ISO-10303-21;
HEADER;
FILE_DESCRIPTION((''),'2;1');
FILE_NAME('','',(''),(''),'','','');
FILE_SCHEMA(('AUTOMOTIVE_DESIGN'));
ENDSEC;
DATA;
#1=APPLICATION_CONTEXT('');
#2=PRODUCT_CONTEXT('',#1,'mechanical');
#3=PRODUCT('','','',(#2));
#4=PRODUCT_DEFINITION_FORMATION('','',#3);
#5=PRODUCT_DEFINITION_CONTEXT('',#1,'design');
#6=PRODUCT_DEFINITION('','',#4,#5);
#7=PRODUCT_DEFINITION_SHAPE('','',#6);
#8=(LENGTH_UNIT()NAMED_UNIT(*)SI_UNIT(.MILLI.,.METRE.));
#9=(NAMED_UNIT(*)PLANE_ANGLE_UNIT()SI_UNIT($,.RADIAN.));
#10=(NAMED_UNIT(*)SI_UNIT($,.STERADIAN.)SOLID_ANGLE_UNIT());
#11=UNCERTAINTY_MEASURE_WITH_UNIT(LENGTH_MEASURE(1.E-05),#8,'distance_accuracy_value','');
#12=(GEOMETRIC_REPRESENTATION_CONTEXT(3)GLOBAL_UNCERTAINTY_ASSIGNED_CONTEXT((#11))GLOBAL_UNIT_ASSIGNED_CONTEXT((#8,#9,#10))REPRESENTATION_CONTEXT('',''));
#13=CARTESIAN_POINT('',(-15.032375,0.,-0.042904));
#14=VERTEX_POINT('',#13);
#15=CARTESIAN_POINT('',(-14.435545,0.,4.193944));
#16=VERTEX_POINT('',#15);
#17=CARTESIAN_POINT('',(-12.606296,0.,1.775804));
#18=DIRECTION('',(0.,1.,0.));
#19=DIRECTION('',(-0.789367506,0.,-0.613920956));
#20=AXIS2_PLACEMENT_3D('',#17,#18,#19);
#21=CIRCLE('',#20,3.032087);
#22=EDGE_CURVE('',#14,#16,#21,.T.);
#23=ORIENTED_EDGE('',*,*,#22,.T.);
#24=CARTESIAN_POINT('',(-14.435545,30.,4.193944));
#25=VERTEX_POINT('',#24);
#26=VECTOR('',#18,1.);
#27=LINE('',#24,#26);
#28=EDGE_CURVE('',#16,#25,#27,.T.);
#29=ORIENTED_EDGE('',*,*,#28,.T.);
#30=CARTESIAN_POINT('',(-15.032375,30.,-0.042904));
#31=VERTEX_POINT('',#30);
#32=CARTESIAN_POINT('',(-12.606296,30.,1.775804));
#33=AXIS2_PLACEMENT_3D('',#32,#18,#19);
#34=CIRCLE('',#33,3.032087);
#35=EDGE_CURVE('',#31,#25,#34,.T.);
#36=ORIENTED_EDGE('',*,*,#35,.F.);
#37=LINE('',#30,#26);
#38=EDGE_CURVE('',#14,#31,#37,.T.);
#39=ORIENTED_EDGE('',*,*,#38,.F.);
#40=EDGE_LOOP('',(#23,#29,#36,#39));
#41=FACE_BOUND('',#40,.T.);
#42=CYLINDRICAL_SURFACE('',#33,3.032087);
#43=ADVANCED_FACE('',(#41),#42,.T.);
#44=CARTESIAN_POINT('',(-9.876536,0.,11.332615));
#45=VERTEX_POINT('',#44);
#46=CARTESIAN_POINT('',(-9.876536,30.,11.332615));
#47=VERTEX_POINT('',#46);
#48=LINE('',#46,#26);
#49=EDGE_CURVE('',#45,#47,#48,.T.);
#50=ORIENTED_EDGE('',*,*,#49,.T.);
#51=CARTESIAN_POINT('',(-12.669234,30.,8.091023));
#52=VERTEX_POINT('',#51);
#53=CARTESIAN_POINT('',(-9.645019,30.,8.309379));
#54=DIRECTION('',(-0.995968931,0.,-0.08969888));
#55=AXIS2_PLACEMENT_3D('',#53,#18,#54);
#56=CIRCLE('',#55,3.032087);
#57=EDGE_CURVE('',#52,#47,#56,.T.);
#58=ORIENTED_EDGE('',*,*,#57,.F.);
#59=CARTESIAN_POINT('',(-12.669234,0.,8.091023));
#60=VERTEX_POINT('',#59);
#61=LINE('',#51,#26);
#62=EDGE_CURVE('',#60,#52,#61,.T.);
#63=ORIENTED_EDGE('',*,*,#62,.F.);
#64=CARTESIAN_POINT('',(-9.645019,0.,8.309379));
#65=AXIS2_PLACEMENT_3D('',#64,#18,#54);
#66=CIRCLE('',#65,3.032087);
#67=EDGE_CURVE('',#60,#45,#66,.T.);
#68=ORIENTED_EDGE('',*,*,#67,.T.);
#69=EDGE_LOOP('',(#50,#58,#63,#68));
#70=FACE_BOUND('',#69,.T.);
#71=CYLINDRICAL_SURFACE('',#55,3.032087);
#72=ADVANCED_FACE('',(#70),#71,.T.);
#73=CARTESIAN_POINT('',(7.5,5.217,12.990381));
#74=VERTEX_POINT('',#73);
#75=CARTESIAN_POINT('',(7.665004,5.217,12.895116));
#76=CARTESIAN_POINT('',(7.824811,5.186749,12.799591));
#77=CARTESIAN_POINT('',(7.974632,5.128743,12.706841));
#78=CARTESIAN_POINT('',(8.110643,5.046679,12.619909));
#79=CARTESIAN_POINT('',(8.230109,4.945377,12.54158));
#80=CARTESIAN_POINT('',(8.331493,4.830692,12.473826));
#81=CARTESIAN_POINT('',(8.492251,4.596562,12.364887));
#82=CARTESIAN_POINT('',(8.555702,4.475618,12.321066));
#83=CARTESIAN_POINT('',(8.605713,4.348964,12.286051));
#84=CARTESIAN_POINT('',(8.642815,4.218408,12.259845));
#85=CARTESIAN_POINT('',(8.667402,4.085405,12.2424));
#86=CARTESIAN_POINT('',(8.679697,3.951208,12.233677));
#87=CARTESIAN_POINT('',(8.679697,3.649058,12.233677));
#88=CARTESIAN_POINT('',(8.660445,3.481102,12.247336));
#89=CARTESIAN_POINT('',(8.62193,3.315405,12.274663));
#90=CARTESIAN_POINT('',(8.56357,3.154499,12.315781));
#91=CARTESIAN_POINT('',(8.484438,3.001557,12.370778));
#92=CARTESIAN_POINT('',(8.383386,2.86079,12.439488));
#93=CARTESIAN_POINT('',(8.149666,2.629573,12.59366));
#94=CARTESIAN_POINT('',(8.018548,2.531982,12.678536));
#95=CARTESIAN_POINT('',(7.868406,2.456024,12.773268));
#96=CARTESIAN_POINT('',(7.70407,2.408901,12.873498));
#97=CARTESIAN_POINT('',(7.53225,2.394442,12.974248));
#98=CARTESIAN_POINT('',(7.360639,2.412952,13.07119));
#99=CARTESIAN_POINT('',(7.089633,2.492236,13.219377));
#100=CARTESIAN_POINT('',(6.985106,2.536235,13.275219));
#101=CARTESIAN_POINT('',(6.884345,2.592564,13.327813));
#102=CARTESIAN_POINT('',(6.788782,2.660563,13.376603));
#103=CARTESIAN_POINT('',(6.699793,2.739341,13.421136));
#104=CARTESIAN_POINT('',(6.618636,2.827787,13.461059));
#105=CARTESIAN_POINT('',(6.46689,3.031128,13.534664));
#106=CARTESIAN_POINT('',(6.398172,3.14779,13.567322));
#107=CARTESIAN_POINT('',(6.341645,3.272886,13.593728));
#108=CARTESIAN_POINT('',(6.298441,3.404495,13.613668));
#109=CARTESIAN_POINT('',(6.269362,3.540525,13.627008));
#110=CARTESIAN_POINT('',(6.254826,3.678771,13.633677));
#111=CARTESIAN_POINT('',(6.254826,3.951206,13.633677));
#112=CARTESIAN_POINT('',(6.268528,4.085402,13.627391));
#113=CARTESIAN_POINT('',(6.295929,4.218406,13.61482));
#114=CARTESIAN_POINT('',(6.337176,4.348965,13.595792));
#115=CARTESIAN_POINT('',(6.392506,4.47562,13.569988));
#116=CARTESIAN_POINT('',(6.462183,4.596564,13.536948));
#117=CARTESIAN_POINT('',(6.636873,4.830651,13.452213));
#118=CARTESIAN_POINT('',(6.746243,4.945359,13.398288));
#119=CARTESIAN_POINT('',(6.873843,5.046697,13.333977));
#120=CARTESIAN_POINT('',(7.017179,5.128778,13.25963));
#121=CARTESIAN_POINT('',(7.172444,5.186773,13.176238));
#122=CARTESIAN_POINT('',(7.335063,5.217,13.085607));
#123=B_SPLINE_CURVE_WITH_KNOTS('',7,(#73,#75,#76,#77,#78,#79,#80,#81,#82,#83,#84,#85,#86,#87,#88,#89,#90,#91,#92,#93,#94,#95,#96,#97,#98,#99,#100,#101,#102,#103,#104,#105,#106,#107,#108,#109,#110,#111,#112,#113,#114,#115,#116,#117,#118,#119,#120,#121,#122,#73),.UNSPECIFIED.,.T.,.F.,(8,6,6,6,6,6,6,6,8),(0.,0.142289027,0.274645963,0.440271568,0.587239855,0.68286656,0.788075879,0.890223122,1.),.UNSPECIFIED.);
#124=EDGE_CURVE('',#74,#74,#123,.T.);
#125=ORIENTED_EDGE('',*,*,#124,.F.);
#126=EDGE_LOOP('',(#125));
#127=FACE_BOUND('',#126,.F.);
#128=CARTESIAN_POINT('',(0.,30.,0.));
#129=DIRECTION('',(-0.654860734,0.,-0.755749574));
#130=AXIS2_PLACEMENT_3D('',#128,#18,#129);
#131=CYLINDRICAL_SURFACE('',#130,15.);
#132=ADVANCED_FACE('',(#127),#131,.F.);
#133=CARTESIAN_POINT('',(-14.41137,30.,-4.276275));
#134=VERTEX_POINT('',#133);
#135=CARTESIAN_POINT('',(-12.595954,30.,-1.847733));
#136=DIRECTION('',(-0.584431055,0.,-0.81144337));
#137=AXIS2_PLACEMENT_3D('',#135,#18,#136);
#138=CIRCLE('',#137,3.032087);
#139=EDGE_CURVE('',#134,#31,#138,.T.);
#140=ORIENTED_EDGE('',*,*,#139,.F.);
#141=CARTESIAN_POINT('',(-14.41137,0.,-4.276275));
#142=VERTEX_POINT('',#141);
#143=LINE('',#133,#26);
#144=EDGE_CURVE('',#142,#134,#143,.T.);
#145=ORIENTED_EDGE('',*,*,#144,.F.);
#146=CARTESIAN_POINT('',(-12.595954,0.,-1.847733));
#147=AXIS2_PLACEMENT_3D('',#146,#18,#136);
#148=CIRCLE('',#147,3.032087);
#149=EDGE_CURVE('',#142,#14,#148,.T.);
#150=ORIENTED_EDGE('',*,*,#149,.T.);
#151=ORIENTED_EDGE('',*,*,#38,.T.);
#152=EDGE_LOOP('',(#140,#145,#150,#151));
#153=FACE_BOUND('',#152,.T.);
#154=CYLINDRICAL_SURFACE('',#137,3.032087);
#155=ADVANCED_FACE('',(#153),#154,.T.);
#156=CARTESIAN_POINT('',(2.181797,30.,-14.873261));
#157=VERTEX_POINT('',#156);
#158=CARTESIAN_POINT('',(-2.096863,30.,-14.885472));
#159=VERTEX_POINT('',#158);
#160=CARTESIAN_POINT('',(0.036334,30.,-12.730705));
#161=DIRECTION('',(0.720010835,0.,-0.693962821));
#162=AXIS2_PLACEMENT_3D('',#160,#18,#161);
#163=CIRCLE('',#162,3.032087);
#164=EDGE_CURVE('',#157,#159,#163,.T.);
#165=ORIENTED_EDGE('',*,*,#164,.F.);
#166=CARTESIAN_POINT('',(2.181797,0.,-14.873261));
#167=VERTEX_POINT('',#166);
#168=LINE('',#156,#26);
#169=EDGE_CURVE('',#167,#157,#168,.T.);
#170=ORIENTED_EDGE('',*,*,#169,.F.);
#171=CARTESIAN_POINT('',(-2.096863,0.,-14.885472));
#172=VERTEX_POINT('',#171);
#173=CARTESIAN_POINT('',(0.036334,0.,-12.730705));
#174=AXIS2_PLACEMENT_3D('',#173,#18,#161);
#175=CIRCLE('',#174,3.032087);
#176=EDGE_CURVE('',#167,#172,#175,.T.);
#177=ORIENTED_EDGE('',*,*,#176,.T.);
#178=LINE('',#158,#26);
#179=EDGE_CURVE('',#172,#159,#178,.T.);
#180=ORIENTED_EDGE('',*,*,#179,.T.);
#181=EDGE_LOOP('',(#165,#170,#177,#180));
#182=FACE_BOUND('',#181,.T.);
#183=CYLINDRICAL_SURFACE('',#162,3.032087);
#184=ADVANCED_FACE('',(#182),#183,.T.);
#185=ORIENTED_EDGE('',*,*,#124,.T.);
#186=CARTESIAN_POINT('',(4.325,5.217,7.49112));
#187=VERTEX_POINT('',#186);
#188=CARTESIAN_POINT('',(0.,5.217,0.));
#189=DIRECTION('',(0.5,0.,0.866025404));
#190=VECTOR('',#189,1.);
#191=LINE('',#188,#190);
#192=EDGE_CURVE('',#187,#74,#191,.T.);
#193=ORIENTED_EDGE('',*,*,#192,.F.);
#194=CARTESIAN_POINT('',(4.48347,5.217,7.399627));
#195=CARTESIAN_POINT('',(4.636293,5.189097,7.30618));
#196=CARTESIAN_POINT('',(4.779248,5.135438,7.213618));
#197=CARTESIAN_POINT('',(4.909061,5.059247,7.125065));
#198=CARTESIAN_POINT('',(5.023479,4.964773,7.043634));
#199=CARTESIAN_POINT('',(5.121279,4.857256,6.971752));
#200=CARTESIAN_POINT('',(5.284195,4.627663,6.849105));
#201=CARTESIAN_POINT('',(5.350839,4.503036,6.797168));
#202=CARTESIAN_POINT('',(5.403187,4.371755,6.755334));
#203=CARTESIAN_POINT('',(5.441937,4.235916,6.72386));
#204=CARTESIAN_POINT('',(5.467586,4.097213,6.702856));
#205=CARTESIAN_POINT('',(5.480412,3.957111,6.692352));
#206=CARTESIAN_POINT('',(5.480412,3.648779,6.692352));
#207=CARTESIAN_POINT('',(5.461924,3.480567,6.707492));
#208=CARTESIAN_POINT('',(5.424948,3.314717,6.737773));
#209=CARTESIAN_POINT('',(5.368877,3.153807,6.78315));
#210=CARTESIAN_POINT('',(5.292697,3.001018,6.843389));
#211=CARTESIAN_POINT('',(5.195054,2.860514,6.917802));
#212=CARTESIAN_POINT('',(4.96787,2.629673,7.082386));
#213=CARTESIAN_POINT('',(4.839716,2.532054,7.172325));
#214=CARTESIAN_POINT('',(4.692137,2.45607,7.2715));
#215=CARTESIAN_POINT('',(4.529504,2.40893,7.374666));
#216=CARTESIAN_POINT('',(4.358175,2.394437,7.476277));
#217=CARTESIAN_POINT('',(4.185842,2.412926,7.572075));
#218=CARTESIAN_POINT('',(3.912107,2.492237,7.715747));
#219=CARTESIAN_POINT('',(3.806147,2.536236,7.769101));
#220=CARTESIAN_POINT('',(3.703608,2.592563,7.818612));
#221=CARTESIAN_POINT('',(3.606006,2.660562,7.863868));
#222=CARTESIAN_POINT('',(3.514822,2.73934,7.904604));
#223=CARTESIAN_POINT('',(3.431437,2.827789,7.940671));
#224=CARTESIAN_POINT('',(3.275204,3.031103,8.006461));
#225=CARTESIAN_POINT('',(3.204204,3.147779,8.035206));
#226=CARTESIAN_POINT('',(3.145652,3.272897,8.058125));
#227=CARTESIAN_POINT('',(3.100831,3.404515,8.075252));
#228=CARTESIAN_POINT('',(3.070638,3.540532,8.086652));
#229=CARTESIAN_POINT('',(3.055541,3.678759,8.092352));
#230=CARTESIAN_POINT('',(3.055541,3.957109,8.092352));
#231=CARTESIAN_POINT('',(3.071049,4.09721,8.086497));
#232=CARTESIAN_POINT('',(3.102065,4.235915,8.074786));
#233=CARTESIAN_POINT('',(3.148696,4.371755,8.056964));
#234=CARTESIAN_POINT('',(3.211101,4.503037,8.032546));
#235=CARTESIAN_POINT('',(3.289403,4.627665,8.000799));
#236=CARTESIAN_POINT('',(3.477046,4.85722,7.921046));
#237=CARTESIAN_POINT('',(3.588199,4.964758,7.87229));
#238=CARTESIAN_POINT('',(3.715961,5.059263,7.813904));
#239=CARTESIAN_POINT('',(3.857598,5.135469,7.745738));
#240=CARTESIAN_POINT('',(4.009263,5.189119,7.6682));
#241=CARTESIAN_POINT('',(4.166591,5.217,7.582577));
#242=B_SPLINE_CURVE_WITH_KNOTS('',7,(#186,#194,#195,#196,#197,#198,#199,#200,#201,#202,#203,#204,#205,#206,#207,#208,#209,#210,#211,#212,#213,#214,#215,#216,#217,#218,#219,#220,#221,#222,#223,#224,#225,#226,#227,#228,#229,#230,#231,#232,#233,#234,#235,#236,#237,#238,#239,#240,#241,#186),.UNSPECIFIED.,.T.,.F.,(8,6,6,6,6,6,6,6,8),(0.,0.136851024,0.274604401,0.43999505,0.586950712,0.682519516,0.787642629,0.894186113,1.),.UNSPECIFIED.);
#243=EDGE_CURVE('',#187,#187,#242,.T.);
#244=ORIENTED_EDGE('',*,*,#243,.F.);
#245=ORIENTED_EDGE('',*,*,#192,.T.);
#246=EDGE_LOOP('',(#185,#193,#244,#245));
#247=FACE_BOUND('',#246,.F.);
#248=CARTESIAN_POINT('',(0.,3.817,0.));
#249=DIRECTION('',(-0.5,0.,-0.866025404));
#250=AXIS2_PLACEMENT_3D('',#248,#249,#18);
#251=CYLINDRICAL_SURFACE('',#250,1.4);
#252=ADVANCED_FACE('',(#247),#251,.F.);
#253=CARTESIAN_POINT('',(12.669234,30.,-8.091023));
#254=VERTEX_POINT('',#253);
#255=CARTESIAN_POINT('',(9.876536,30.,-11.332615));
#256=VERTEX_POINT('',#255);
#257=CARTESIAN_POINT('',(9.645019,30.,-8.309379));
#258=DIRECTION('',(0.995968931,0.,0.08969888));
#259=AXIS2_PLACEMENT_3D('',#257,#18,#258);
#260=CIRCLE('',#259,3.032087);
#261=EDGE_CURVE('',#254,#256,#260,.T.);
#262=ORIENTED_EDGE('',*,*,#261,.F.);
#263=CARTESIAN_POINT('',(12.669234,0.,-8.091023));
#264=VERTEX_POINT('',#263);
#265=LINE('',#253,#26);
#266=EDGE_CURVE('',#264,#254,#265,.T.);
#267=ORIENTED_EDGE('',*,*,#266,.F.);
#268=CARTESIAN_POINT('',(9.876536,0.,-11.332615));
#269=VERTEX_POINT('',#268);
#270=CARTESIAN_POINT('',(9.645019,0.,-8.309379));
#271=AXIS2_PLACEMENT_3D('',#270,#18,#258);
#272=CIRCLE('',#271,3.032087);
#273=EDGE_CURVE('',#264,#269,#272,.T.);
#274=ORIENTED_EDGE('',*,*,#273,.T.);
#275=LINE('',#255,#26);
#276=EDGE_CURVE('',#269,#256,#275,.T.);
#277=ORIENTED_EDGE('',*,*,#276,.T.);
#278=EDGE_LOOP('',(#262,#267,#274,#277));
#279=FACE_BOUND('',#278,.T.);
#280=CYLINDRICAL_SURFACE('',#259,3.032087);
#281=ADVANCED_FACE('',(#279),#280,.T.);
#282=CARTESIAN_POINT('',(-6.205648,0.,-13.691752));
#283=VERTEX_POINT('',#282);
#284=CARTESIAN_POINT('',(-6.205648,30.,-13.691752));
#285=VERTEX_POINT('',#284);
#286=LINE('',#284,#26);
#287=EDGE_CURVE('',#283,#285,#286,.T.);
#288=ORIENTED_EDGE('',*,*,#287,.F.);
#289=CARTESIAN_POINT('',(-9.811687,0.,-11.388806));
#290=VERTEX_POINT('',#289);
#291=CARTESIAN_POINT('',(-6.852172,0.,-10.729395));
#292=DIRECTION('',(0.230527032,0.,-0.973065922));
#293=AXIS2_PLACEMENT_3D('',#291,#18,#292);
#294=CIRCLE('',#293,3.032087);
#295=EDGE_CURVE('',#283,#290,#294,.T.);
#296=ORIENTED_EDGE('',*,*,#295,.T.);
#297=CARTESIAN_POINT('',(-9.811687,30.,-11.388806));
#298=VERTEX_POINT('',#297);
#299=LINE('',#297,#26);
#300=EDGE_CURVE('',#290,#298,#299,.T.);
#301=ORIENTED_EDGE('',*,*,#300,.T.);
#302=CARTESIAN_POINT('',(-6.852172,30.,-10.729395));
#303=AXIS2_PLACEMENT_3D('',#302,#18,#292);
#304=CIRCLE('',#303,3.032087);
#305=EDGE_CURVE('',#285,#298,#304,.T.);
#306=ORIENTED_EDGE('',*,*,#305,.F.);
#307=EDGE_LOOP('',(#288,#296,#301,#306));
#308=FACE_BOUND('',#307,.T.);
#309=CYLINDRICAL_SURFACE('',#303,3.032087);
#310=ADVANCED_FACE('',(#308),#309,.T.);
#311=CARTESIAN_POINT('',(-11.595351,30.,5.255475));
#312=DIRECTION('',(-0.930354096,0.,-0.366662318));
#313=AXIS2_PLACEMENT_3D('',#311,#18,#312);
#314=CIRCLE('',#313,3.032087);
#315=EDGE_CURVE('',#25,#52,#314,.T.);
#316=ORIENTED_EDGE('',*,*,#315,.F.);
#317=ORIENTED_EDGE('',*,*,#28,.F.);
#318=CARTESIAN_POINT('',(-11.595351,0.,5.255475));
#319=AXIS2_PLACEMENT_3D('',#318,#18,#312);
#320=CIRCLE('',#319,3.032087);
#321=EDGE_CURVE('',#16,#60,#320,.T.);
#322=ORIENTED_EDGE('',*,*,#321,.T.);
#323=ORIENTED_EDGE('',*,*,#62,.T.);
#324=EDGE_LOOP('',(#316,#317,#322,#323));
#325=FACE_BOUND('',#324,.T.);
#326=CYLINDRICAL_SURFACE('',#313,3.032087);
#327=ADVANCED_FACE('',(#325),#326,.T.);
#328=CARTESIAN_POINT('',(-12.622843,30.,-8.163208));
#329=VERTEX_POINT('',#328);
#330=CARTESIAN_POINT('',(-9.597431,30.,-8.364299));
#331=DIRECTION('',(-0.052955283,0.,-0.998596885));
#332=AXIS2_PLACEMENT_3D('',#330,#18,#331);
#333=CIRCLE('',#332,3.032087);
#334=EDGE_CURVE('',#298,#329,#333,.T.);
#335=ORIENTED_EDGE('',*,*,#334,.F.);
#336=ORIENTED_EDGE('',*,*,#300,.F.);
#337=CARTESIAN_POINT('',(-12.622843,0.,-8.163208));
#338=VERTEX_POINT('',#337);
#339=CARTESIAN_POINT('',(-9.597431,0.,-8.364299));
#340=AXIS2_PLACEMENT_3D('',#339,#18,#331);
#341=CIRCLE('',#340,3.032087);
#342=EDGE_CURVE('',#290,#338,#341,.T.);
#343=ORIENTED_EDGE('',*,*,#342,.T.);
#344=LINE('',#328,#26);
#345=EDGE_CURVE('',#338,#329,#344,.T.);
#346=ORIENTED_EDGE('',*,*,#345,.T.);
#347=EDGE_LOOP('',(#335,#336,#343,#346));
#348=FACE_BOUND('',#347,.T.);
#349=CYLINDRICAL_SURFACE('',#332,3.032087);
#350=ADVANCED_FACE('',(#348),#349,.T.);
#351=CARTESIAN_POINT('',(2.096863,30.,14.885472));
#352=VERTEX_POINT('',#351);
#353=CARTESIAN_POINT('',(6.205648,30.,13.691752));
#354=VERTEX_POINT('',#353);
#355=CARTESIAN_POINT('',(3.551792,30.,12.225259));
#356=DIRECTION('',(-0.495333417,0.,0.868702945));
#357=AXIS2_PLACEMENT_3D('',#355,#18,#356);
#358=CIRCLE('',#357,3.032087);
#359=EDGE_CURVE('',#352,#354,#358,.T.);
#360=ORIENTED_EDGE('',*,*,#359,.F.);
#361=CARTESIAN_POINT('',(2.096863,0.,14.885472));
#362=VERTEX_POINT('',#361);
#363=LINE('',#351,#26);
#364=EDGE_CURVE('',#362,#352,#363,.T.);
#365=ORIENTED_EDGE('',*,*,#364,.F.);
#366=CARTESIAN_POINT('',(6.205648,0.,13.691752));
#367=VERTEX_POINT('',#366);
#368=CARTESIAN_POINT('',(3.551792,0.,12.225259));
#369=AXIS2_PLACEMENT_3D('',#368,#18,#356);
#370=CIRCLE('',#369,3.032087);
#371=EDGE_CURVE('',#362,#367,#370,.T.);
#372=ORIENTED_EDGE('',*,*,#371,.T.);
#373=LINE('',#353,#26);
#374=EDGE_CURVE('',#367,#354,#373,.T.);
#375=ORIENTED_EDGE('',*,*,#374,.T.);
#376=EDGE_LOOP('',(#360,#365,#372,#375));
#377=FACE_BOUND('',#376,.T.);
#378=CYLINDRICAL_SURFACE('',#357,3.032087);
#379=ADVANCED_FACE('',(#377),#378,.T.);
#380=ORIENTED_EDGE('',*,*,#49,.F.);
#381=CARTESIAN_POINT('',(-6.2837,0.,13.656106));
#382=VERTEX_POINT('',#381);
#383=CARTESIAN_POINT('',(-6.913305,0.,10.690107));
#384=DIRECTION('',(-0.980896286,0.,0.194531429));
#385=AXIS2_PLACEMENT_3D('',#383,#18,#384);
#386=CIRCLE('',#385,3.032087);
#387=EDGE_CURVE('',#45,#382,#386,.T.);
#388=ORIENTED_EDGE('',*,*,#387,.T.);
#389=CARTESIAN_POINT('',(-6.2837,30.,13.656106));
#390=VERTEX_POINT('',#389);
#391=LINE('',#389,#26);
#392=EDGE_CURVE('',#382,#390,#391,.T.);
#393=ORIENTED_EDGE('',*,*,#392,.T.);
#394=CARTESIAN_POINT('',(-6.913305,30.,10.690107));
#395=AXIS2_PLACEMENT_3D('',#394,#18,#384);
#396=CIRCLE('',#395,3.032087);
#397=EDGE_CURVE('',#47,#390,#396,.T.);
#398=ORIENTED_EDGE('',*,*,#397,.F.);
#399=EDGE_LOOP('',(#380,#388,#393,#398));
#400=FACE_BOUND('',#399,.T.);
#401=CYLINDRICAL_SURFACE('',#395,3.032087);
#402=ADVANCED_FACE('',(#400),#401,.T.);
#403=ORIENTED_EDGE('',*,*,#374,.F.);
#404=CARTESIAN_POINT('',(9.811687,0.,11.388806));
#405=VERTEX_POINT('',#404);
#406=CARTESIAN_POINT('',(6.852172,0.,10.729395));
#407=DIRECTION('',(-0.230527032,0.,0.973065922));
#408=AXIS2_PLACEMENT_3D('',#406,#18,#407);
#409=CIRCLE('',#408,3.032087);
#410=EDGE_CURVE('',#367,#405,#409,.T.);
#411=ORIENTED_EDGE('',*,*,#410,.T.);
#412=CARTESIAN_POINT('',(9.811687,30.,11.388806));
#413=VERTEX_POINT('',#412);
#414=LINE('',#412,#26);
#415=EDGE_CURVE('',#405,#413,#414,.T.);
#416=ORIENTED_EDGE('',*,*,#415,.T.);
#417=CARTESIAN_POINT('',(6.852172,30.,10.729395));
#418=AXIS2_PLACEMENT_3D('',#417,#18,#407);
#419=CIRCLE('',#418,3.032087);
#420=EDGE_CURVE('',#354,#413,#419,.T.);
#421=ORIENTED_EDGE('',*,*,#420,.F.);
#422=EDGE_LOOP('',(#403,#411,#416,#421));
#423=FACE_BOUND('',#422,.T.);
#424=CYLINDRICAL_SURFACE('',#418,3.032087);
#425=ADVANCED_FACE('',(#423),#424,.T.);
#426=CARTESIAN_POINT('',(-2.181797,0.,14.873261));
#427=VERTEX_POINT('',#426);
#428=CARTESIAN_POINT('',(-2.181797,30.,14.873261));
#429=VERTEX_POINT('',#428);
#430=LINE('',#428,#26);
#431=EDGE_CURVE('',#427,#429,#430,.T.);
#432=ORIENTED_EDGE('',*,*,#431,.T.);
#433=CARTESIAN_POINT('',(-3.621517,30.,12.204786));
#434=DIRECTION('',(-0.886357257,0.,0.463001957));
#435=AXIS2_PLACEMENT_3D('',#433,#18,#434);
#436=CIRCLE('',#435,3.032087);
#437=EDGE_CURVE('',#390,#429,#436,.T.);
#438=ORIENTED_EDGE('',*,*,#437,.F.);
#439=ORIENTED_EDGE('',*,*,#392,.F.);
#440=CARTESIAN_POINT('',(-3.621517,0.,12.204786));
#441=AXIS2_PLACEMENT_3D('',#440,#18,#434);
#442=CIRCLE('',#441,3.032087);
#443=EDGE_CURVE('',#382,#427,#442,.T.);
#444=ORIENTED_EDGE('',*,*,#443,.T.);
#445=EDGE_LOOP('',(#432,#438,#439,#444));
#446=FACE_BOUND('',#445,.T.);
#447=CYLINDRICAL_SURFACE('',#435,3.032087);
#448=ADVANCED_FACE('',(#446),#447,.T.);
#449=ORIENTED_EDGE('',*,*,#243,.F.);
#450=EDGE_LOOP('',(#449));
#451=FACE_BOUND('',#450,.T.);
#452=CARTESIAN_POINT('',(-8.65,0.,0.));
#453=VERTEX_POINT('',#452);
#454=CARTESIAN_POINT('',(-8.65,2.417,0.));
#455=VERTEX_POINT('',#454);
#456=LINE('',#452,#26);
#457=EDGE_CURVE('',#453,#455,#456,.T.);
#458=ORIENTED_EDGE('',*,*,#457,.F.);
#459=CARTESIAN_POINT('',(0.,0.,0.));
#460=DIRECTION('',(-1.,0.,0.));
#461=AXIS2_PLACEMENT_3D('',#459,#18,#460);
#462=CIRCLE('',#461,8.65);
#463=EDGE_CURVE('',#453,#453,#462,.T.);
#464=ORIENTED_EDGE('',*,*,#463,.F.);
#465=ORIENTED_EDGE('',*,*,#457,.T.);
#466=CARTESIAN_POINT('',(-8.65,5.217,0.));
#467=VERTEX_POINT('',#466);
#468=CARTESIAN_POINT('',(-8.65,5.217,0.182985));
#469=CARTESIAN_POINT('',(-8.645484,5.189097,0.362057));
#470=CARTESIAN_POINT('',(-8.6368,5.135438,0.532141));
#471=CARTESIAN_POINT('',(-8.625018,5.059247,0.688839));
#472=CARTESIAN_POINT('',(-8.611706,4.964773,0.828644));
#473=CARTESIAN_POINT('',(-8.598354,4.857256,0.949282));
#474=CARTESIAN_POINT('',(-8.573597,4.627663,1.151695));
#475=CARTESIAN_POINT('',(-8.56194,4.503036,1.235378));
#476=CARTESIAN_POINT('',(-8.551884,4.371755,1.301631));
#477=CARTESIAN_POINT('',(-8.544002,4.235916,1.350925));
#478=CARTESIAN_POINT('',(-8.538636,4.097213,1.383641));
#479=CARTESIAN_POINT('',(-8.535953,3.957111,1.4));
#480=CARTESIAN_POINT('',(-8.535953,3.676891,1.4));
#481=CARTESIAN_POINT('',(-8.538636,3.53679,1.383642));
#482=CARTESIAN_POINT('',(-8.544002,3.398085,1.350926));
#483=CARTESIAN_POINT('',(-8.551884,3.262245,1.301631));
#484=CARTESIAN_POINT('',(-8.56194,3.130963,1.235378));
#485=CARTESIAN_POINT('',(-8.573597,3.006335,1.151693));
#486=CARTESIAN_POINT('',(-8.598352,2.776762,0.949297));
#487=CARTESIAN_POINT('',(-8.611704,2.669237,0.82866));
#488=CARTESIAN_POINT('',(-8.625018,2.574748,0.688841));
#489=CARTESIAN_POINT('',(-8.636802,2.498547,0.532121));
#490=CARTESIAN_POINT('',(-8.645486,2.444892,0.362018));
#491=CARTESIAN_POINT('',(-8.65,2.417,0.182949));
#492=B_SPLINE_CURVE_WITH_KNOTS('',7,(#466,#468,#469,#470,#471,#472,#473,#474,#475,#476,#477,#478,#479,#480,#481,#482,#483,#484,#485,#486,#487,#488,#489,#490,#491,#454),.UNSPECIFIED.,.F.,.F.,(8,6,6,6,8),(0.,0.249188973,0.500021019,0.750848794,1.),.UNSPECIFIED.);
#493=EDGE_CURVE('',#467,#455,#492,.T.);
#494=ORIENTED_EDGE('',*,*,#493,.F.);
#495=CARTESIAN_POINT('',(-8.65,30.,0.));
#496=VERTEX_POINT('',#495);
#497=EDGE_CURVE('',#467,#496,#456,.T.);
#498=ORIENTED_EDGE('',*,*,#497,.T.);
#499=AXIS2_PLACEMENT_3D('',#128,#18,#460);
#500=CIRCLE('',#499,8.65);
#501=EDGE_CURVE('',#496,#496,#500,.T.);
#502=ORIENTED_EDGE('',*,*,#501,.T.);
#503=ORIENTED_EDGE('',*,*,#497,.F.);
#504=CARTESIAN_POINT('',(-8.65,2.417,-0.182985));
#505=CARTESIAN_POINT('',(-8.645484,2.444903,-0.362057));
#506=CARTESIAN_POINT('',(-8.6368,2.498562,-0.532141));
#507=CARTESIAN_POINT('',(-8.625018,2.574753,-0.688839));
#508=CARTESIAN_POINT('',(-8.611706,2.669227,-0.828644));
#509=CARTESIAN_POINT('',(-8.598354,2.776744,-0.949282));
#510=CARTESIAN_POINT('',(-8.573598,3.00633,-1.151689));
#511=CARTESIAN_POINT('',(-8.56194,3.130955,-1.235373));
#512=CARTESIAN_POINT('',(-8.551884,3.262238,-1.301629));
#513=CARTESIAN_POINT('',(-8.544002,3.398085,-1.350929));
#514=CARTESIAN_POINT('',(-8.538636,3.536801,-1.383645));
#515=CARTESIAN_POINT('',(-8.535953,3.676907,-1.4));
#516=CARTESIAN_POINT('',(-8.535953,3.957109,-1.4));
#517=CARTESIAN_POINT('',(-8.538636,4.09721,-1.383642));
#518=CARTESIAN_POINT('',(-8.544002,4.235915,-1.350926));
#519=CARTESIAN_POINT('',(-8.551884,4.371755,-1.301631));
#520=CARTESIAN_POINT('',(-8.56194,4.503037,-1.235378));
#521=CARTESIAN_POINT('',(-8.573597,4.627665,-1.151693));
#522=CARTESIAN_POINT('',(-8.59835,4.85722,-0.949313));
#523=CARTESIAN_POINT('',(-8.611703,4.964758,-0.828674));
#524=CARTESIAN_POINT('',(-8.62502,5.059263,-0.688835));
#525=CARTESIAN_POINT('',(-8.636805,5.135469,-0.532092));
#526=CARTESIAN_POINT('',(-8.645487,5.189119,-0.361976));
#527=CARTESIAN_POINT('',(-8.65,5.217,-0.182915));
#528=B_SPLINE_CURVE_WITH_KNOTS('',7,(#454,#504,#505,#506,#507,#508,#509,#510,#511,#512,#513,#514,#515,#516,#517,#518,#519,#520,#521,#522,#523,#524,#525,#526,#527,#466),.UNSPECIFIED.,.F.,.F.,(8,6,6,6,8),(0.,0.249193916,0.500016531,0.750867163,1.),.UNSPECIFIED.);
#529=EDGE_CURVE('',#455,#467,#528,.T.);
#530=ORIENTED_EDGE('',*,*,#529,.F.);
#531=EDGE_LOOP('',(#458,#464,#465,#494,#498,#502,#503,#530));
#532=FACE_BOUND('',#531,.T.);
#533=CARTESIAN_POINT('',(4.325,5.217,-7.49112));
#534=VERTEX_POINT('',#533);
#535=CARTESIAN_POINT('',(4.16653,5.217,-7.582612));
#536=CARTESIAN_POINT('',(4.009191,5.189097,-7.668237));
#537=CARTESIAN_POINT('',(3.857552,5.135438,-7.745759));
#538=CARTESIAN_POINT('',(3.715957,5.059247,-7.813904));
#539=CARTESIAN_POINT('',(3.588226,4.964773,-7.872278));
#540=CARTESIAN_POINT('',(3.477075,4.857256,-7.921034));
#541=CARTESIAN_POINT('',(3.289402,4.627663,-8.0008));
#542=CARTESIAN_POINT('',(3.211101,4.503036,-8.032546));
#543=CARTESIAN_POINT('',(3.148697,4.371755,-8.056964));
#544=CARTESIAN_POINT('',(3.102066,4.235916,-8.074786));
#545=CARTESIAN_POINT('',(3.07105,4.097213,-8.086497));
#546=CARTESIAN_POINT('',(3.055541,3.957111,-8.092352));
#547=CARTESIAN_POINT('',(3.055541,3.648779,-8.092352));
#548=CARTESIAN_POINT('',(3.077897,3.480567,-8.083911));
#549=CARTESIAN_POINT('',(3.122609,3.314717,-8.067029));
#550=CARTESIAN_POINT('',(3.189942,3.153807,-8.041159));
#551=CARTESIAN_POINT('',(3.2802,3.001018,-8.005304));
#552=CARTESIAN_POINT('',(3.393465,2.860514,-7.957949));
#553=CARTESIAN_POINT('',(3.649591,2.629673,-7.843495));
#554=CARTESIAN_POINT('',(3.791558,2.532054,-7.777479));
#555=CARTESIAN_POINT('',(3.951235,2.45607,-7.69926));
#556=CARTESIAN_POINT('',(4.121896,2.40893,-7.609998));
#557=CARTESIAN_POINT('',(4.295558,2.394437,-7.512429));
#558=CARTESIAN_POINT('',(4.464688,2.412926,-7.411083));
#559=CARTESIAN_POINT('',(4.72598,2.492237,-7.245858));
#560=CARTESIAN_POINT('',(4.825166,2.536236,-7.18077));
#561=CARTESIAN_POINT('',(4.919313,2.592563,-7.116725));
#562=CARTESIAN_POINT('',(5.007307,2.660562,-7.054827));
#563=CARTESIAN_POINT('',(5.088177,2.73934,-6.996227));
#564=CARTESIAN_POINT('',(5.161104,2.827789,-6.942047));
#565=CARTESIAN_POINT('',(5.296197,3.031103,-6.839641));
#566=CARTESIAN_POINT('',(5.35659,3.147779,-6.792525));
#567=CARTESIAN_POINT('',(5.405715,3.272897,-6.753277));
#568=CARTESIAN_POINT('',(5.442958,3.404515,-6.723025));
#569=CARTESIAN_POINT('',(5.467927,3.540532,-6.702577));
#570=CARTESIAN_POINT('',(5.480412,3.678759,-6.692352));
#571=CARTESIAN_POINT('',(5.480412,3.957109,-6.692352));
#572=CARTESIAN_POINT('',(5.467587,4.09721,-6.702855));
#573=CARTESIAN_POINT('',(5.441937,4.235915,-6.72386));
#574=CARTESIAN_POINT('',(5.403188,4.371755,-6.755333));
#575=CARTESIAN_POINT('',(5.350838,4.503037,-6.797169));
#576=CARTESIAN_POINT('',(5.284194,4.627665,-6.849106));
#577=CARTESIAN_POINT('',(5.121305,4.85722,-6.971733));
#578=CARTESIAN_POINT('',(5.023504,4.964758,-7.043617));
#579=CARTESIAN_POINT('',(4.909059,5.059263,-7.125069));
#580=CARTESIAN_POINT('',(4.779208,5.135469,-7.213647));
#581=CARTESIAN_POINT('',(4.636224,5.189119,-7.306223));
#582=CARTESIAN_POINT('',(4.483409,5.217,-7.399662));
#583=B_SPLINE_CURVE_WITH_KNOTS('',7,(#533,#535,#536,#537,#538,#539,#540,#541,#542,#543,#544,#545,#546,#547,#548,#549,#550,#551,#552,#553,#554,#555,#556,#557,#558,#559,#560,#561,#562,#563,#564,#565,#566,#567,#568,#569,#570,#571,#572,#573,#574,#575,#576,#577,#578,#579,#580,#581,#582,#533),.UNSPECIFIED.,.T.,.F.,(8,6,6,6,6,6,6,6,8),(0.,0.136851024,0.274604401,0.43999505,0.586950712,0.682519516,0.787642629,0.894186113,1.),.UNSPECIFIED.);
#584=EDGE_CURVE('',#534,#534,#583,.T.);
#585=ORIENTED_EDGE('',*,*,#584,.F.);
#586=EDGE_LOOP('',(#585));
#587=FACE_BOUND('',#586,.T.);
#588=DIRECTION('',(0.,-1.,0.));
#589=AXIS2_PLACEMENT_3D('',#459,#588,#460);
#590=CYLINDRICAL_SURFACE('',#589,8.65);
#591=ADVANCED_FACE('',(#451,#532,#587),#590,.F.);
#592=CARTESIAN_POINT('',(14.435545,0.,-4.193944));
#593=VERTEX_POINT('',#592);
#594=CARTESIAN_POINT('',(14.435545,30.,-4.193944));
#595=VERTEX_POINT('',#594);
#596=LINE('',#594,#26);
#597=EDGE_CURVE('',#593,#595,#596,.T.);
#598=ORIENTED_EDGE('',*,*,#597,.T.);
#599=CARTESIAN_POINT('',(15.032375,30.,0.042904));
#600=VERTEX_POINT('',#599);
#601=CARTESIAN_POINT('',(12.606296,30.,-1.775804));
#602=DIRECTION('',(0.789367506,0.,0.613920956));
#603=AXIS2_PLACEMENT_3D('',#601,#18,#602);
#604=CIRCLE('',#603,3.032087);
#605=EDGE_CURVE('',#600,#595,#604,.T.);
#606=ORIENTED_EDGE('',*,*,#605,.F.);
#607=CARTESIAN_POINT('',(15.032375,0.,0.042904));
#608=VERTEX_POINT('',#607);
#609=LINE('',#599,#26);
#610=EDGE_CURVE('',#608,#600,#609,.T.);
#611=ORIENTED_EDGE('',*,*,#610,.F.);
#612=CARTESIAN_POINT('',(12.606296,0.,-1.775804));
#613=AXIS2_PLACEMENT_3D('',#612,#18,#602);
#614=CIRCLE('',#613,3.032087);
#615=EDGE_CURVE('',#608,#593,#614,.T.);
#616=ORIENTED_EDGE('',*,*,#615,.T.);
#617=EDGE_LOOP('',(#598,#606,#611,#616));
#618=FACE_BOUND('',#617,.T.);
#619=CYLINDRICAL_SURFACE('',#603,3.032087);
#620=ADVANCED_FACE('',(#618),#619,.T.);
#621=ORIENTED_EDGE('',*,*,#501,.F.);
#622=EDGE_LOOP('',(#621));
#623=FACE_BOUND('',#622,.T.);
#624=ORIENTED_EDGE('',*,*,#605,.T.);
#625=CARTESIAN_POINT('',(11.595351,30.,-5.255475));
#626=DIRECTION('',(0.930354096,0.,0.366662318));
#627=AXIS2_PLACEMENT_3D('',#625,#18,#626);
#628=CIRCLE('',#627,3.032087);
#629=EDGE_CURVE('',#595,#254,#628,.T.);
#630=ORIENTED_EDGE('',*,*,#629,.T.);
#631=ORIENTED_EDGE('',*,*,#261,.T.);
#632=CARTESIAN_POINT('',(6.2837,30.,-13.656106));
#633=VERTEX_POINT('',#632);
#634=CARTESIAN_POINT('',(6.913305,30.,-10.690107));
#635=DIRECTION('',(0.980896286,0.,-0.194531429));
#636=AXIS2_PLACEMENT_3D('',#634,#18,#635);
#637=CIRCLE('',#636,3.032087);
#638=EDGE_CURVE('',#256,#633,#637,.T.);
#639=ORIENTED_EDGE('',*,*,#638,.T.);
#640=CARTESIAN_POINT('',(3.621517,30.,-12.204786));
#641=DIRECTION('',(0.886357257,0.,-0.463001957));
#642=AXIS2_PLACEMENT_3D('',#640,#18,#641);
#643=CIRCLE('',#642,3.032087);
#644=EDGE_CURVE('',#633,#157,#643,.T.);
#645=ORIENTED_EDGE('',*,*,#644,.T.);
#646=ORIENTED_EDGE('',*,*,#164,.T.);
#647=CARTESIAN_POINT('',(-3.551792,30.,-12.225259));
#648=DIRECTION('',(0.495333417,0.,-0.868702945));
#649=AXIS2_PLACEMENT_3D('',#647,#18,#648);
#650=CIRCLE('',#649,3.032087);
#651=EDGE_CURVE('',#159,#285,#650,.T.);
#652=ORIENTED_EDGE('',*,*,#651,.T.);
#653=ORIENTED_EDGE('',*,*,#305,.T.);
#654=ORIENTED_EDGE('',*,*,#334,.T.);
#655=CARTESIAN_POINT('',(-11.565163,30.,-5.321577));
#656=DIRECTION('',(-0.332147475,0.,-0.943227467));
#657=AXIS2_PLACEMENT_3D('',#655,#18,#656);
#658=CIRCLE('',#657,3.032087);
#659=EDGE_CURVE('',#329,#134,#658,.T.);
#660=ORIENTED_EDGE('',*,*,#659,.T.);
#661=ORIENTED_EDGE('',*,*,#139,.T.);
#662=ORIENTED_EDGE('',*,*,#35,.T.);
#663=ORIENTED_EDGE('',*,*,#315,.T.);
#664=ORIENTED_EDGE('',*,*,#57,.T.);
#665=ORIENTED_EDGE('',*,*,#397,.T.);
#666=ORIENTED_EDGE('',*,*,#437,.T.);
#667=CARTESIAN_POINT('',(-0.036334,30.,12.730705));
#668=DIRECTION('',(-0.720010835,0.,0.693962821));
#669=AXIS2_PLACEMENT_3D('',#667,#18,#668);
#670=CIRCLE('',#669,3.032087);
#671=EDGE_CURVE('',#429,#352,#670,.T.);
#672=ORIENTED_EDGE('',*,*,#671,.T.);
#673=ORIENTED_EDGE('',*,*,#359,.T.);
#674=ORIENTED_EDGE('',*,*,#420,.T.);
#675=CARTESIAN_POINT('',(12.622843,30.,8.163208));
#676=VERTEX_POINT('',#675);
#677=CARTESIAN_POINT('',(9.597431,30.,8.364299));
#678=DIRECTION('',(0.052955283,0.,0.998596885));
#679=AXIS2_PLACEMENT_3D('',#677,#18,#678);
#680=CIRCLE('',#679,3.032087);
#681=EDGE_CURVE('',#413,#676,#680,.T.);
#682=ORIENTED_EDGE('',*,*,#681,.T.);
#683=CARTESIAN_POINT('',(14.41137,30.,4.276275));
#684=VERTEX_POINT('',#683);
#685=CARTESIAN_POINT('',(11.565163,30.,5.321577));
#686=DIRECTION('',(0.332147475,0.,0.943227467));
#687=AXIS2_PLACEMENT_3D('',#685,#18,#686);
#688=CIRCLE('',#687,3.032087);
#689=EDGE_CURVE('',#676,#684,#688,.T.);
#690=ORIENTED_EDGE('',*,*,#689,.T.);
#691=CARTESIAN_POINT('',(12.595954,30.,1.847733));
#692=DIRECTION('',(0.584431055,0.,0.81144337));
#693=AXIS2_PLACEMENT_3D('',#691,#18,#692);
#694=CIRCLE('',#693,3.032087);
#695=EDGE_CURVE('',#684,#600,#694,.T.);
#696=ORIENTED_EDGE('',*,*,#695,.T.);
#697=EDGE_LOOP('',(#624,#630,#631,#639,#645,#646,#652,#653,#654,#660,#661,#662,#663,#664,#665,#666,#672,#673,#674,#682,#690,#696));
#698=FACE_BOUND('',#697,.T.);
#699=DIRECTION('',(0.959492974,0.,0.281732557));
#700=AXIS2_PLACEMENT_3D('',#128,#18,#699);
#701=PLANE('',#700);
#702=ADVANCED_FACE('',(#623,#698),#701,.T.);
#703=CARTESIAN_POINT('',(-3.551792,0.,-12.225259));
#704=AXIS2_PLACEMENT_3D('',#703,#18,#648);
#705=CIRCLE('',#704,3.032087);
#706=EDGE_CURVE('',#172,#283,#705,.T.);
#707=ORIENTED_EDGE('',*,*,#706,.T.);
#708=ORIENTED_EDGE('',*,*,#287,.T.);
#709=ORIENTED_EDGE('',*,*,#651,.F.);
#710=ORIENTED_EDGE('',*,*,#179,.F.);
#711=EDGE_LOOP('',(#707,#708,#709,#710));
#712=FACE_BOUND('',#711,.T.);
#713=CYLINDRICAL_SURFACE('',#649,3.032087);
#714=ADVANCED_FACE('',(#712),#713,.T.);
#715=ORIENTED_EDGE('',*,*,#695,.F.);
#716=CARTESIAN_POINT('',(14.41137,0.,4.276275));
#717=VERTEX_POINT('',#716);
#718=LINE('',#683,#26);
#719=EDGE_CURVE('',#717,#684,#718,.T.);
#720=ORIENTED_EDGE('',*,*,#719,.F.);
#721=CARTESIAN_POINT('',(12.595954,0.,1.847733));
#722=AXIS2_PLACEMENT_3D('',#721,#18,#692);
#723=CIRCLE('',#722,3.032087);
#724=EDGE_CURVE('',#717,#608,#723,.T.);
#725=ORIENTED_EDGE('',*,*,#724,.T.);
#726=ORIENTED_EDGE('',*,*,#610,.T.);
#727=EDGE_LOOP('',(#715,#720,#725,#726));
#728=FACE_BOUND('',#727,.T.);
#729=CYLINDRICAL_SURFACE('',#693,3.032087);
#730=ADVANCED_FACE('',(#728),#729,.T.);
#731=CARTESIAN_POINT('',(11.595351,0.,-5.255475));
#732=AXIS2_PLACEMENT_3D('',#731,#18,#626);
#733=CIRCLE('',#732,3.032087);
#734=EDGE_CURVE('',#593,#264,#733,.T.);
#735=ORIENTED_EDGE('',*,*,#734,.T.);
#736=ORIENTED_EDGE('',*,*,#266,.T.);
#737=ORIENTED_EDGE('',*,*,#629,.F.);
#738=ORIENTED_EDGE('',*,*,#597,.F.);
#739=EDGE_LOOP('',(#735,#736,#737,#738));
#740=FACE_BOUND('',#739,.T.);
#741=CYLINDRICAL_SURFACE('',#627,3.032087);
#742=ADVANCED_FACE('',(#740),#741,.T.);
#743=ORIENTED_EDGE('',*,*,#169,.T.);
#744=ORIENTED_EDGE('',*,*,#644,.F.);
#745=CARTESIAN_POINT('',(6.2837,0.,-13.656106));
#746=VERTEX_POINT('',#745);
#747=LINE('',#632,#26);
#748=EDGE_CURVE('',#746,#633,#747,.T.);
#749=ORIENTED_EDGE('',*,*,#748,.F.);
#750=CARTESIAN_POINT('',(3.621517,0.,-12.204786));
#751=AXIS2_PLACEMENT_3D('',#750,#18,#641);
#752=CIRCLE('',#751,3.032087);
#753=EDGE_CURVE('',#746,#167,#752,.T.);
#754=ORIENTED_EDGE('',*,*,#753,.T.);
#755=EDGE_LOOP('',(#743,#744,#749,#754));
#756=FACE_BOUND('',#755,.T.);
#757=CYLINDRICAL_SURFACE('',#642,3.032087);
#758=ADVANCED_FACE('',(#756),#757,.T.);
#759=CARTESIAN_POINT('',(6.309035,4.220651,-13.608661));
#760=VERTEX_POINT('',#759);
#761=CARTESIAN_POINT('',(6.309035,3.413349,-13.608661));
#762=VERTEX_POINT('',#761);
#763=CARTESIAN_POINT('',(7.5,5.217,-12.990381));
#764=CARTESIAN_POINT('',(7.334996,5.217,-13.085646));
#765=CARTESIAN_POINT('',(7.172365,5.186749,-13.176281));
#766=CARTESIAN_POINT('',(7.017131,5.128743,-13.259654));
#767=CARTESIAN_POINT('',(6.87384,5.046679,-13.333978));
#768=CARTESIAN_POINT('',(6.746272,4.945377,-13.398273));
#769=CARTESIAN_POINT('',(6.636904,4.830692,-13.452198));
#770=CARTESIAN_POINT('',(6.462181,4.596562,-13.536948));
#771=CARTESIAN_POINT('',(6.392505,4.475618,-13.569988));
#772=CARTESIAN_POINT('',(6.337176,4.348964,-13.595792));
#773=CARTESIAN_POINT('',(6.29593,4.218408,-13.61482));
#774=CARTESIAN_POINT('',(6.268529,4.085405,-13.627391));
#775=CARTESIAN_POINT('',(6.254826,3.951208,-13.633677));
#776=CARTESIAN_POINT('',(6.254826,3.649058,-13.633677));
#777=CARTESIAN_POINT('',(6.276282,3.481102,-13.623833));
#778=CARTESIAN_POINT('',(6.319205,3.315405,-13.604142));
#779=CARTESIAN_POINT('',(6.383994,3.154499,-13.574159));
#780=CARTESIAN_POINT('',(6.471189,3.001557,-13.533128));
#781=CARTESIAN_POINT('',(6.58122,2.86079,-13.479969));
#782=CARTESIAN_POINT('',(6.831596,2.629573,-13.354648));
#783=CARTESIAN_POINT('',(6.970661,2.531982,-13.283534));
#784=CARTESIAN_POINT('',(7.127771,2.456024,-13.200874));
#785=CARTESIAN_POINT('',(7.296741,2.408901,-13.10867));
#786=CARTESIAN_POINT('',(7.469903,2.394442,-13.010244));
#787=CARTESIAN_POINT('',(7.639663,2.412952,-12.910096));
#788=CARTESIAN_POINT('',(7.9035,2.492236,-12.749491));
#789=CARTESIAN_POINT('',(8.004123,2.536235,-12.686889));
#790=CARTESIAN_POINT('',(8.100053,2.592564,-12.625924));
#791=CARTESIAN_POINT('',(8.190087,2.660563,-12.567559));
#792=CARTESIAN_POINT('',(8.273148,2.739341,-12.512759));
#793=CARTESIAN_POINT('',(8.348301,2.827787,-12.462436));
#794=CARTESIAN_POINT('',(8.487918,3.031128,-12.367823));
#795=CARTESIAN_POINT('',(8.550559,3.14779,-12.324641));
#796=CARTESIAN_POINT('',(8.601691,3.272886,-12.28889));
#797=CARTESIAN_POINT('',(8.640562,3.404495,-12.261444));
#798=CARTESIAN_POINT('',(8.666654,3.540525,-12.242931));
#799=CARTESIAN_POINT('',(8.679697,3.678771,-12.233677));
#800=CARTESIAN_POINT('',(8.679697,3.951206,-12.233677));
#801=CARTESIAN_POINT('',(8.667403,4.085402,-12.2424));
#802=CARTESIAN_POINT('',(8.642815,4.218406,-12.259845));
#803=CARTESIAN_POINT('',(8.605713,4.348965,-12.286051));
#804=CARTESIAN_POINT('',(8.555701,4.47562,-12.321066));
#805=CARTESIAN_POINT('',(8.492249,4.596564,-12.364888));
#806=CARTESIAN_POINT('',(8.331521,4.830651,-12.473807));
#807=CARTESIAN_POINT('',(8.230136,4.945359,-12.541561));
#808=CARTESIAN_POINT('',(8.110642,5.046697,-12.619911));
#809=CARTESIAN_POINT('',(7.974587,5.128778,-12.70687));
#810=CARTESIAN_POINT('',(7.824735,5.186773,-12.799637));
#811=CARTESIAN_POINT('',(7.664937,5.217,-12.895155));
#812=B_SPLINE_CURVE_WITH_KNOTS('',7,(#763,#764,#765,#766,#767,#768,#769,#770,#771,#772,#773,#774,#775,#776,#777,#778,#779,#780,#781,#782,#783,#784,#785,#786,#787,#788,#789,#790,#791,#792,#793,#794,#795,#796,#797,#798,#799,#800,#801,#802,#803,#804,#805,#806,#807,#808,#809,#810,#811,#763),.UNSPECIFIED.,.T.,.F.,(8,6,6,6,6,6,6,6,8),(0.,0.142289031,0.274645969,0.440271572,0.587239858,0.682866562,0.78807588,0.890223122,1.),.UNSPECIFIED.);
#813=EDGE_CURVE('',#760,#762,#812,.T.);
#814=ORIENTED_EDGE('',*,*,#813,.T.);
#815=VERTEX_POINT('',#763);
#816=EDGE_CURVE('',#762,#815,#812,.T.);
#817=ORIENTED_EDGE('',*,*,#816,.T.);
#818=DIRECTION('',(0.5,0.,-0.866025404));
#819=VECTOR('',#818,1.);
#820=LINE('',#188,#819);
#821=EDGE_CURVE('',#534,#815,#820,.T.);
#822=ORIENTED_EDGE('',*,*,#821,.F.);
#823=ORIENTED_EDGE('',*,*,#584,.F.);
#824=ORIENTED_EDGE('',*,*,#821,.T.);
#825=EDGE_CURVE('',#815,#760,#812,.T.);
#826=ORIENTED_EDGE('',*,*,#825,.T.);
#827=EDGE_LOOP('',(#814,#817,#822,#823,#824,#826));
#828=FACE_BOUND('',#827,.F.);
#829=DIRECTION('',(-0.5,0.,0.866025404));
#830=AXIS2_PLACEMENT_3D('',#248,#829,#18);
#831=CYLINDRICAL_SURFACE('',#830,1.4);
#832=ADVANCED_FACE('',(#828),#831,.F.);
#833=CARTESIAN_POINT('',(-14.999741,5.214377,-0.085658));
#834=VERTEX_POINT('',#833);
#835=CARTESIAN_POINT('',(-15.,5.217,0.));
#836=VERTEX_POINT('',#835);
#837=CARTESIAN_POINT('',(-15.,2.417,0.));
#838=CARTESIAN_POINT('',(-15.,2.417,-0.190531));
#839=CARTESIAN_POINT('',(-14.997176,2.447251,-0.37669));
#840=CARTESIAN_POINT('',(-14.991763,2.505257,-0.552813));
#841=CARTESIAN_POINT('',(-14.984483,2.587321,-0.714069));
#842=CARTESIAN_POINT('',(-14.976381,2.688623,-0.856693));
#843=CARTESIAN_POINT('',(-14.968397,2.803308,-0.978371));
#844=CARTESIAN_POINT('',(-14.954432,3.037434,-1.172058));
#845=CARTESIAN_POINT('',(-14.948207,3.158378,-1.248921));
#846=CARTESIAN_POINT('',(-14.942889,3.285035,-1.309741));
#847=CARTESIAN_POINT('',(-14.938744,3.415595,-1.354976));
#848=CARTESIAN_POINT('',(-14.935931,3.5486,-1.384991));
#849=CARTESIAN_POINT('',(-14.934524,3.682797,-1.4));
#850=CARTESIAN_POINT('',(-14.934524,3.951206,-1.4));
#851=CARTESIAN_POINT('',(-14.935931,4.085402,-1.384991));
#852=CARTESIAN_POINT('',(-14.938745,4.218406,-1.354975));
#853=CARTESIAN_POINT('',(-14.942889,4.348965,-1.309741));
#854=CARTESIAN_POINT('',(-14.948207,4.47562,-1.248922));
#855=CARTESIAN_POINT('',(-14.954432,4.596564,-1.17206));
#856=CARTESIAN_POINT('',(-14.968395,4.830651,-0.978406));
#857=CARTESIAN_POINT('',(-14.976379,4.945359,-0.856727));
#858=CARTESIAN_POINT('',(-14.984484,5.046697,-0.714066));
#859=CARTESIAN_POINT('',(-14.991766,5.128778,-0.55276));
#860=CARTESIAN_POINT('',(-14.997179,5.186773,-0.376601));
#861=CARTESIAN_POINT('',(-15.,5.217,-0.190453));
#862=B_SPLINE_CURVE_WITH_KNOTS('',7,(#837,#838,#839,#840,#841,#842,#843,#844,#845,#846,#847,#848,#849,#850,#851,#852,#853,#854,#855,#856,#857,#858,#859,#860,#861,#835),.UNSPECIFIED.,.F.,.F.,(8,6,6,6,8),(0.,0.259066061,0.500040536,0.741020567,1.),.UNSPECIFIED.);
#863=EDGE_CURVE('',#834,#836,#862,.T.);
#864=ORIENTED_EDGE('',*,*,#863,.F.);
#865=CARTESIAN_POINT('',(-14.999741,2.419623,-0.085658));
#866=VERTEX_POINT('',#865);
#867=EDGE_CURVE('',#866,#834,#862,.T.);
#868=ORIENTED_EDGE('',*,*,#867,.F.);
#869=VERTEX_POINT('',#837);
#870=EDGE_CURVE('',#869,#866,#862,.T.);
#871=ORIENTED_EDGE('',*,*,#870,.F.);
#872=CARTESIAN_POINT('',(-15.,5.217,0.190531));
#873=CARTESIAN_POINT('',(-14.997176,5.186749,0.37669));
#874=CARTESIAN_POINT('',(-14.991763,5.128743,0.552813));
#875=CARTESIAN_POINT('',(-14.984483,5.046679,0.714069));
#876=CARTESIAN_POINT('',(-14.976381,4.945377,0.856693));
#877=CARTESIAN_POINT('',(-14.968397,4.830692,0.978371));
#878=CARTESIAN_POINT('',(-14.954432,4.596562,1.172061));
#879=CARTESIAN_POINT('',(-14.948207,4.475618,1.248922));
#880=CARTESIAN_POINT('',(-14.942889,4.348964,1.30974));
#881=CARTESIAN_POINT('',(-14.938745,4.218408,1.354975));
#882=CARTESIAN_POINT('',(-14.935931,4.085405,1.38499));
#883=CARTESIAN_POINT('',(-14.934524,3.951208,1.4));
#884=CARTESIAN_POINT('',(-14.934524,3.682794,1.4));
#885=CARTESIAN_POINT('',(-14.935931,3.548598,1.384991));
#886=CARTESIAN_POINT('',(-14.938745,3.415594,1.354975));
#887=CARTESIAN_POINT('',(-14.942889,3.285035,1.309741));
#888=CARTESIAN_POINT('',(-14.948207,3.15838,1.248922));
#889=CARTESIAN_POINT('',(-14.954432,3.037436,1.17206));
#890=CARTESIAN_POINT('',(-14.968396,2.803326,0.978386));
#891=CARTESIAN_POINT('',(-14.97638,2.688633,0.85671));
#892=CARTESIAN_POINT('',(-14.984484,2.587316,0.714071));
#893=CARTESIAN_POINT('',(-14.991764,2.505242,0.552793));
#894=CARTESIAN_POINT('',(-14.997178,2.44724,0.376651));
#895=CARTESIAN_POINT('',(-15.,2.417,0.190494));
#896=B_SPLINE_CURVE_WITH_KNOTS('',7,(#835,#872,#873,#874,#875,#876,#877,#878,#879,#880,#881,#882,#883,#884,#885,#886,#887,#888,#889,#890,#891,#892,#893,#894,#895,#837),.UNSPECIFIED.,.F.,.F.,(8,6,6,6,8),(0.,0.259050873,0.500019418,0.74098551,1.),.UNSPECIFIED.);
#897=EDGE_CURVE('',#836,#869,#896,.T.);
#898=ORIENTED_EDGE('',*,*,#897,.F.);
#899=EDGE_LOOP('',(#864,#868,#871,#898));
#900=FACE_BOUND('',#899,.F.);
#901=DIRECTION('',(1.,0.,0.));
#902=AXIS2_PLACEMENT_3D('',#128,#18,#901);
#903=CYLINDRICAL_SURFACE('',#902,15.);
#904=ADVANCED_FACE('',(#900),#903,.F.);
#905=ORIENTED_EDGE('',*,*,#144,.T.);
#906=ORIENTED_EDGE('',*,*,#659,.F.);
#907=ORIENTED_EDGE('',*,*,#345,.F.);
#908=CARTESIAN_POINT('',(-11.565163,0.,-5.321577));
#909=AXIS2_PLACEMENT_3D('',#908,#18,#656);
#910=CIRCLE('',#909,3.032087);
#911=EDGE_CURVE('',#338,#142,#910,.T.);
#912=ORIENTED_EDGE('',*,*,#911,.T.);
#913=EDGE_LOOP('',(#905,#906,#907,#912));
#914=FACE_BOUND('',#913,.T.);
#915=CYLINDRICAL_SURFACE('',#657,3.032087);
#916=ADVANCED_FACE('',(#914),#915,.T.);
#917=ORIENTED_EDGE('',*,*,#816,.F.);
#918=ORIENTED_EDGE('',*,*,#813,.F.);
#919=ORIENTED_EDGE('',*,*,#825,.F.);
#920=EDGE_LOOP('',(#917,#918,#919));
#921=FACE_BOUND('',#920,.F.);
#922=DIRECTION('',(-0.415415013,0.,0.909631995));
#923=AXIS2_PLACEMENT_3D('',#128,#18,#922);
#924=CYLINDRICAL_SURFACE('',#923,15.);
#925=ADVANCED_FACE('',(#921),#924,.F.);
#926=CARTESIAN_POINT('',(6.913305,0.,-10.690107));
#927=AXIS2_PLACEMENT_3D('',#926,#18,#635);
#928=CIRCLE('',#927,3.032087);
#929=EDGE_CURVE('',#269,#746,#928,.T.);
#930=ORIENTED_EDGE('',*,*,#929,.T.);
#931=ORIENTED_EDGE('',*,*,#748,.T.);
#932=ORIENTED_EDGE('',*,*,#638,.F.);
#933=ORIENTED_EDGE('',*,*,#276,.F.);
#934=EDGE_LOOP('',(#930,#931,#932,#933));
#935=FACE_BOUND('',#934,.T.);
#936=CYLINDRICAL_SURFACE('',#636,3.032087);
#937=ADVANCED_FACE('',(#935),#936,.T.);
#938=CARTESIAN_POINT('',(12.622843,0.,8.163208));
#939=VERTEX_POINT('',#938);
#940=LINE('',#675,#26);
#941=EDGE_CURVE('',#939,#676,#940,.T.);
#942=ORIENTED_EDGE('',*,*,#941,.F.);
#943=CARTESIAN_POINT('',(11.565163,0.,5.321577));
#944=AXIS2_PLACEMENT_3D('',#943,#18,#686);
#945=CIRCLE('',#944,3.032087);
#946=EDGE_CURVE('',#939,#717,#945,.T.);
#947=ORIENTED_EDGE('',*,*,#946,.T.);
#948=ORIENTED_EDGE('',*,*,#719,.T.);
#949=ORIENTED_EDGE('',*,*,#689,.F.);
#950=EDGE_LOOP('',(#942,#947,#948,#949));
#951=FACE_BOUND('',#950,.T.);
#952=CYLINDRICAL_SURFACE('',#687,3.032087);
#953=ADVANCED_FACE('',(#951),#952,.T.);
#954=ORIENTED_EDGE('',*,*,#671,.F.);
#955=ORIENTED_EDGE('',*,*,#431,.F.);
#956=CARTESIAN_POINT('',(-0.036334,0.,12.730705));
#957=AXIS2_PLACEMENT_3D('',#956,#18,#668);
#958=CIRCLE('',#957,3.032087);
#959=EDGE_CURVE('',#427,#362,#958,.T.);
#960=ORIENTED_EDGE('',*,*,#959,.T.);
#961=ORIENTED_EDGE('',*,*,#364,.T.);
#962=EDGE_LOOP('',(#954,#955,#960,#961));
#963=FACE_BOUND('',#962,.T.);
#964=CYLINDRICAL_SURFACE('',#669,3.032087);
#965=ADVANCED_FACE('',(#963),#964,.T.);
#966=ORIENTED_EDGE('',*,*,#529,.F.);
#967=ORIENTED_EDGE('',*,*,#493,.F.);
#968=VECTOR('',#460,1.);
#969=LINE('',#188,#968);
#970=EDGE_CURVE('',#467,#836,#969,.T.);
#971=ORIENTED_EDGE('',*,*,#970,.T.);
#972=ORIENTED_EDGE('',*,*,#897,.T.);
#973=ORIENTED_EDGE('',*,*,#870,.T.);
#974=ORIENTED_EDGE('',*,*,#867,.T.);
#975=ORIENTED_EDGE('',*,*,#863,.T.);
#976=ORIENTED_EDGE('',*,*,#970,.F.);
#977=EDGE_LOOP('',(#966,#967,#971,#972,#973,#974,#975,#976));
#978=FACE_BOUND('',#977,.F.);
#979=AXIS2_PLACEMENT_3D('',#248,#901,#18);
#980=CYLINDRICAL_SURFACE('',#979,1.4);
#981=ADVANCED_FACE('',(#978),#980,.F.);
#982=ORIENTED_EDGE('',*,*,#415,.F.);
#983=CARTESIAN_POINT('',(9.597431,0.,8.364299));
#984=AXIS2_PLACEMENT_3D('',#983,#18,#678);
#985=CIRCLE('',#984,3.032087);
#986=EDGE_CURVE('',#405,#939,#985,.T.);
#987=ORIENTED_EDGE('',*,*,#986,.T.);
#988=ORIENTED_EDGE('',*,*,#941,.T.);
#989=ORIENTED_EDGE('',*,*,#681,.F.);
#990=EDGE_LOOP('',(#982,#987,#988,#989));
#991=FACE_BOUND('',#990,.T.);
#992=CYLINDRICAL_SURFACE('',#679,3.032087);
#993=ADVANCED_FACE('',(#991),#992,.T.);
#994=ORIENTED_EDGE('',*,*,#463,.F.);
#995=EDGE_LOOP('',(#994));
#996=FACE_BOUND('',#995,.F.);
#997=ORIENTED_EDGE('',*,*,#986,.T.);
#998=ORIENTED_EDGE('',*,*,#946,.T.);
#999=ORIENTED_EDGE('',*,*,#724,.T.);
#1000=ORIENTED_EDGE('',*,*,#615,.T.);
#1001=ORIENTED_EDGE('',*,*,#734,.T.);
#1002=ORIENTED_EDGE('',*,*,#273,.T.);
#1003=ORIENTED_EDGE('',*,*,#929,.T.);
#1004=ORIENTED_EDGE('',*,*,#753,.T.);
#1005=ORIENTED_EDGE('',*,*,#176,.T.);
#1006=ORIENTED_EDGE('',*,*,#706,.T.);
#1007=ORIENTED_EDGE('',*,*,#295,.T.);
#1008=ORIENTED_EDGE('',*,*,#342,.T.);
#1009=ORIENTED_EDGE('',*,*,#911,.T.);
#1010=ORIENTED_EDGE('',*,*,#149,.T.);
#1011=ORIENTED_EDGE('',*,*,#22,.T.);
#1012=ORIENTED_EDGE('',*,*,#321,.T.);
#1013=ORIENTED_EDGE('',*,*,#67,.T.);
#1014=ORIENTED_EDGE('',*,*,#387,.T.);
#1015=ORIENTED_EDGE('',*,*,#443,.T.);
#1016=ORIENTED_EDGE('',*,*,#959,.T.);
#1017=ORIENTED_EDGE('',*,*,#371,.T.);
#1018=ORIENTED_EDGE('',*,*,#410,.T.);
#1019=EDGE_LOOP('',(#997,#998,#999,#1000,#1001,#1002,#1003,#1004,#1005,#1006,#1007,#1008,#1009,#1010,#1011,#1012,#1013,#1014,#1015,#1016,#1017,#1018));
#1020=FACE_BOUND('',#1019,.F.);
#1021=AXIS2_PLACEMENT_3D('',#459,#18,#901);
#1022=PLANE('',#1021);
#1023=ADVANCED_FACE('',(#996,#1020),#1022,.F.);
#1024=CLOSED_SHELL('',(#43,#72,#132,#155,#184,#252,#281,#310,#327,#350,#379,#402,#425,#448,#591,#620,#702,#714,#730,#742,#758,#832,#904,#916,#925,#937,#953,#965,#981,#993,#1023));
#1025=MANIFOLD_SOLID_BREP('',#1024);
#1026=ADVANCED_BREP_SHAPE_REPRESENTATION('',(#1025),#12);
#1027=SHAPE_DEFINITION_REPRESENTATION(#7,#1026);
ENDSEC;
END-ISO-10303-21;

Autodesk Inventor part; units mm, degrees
ref_plane "YZ Plane" through (0, 0, 0) normal (1, 0, 0) x (0, 1, 0)
ref_plane "XZ Plane" through (0, 0, 0) normal (0, 1, 0) x (-1, 0, 0)
ref_plane "XY Plane" through (0, 0, 0) normal (0, 0, 1) x (1, 0, 0)
sketch "Skizze1" plane through (0, 0, 0) normal (0, 1, 0) x (-1, 0, 0)
  circle A0 centre (0, 0) radius 8.65
  circle A1 centre (0, 0) radius 15
  dimension "d0" = 17.3
  dimension "d1" = 30
extrude "Extrusion1" add sketch "Skizze1" along normal blind 30
sketch "Skizze2" plane through (0, 0, 0) normal (1, 0, 0) x (0, 1, 0)
  line L0 (30, -15) -> (30, 15) projected
  line L1 (0, -15) -> (0, 15) projected
  circle A0 centre (3.817, 0) radius 1.4
  point P0 (0, 0)
  dimension "d4" = 2.8
extrude "Extrusion2" cut sketch "Skizze2" against normal blind 20
pattern_circular "Runde Anordnung1" count 3 over 360 about axis through (0, 0, 0) along (0, 1, 0) of "Extrusion2"
sketch "Skizze3" plane through (0, 30, 0) normal (0, 1, 0) x (1, 0, 0)
  circle A0 centre (0, 0) radius 15 projected
  circle A1 centre (0, 0) radius 15 projected
  arc A2 (-14.368, 4.3081) -> (-15, 0) centre (-12.5959, 1.8477) ccw
  point P0 (-15, 0)
  point P1 (-14.368, 4.3081)
extrude "Extrusion3" add sketch "Skizze3" against normal up to surface (30 mm away) contours A0 A2
pattern_circular "Runde Anordnung2" count 22 over 360 about axis through (0, 0, 0) along (0, 1, 0) of "Extrusion3"
properties part number "00_CCTV_Lens_Knob"
